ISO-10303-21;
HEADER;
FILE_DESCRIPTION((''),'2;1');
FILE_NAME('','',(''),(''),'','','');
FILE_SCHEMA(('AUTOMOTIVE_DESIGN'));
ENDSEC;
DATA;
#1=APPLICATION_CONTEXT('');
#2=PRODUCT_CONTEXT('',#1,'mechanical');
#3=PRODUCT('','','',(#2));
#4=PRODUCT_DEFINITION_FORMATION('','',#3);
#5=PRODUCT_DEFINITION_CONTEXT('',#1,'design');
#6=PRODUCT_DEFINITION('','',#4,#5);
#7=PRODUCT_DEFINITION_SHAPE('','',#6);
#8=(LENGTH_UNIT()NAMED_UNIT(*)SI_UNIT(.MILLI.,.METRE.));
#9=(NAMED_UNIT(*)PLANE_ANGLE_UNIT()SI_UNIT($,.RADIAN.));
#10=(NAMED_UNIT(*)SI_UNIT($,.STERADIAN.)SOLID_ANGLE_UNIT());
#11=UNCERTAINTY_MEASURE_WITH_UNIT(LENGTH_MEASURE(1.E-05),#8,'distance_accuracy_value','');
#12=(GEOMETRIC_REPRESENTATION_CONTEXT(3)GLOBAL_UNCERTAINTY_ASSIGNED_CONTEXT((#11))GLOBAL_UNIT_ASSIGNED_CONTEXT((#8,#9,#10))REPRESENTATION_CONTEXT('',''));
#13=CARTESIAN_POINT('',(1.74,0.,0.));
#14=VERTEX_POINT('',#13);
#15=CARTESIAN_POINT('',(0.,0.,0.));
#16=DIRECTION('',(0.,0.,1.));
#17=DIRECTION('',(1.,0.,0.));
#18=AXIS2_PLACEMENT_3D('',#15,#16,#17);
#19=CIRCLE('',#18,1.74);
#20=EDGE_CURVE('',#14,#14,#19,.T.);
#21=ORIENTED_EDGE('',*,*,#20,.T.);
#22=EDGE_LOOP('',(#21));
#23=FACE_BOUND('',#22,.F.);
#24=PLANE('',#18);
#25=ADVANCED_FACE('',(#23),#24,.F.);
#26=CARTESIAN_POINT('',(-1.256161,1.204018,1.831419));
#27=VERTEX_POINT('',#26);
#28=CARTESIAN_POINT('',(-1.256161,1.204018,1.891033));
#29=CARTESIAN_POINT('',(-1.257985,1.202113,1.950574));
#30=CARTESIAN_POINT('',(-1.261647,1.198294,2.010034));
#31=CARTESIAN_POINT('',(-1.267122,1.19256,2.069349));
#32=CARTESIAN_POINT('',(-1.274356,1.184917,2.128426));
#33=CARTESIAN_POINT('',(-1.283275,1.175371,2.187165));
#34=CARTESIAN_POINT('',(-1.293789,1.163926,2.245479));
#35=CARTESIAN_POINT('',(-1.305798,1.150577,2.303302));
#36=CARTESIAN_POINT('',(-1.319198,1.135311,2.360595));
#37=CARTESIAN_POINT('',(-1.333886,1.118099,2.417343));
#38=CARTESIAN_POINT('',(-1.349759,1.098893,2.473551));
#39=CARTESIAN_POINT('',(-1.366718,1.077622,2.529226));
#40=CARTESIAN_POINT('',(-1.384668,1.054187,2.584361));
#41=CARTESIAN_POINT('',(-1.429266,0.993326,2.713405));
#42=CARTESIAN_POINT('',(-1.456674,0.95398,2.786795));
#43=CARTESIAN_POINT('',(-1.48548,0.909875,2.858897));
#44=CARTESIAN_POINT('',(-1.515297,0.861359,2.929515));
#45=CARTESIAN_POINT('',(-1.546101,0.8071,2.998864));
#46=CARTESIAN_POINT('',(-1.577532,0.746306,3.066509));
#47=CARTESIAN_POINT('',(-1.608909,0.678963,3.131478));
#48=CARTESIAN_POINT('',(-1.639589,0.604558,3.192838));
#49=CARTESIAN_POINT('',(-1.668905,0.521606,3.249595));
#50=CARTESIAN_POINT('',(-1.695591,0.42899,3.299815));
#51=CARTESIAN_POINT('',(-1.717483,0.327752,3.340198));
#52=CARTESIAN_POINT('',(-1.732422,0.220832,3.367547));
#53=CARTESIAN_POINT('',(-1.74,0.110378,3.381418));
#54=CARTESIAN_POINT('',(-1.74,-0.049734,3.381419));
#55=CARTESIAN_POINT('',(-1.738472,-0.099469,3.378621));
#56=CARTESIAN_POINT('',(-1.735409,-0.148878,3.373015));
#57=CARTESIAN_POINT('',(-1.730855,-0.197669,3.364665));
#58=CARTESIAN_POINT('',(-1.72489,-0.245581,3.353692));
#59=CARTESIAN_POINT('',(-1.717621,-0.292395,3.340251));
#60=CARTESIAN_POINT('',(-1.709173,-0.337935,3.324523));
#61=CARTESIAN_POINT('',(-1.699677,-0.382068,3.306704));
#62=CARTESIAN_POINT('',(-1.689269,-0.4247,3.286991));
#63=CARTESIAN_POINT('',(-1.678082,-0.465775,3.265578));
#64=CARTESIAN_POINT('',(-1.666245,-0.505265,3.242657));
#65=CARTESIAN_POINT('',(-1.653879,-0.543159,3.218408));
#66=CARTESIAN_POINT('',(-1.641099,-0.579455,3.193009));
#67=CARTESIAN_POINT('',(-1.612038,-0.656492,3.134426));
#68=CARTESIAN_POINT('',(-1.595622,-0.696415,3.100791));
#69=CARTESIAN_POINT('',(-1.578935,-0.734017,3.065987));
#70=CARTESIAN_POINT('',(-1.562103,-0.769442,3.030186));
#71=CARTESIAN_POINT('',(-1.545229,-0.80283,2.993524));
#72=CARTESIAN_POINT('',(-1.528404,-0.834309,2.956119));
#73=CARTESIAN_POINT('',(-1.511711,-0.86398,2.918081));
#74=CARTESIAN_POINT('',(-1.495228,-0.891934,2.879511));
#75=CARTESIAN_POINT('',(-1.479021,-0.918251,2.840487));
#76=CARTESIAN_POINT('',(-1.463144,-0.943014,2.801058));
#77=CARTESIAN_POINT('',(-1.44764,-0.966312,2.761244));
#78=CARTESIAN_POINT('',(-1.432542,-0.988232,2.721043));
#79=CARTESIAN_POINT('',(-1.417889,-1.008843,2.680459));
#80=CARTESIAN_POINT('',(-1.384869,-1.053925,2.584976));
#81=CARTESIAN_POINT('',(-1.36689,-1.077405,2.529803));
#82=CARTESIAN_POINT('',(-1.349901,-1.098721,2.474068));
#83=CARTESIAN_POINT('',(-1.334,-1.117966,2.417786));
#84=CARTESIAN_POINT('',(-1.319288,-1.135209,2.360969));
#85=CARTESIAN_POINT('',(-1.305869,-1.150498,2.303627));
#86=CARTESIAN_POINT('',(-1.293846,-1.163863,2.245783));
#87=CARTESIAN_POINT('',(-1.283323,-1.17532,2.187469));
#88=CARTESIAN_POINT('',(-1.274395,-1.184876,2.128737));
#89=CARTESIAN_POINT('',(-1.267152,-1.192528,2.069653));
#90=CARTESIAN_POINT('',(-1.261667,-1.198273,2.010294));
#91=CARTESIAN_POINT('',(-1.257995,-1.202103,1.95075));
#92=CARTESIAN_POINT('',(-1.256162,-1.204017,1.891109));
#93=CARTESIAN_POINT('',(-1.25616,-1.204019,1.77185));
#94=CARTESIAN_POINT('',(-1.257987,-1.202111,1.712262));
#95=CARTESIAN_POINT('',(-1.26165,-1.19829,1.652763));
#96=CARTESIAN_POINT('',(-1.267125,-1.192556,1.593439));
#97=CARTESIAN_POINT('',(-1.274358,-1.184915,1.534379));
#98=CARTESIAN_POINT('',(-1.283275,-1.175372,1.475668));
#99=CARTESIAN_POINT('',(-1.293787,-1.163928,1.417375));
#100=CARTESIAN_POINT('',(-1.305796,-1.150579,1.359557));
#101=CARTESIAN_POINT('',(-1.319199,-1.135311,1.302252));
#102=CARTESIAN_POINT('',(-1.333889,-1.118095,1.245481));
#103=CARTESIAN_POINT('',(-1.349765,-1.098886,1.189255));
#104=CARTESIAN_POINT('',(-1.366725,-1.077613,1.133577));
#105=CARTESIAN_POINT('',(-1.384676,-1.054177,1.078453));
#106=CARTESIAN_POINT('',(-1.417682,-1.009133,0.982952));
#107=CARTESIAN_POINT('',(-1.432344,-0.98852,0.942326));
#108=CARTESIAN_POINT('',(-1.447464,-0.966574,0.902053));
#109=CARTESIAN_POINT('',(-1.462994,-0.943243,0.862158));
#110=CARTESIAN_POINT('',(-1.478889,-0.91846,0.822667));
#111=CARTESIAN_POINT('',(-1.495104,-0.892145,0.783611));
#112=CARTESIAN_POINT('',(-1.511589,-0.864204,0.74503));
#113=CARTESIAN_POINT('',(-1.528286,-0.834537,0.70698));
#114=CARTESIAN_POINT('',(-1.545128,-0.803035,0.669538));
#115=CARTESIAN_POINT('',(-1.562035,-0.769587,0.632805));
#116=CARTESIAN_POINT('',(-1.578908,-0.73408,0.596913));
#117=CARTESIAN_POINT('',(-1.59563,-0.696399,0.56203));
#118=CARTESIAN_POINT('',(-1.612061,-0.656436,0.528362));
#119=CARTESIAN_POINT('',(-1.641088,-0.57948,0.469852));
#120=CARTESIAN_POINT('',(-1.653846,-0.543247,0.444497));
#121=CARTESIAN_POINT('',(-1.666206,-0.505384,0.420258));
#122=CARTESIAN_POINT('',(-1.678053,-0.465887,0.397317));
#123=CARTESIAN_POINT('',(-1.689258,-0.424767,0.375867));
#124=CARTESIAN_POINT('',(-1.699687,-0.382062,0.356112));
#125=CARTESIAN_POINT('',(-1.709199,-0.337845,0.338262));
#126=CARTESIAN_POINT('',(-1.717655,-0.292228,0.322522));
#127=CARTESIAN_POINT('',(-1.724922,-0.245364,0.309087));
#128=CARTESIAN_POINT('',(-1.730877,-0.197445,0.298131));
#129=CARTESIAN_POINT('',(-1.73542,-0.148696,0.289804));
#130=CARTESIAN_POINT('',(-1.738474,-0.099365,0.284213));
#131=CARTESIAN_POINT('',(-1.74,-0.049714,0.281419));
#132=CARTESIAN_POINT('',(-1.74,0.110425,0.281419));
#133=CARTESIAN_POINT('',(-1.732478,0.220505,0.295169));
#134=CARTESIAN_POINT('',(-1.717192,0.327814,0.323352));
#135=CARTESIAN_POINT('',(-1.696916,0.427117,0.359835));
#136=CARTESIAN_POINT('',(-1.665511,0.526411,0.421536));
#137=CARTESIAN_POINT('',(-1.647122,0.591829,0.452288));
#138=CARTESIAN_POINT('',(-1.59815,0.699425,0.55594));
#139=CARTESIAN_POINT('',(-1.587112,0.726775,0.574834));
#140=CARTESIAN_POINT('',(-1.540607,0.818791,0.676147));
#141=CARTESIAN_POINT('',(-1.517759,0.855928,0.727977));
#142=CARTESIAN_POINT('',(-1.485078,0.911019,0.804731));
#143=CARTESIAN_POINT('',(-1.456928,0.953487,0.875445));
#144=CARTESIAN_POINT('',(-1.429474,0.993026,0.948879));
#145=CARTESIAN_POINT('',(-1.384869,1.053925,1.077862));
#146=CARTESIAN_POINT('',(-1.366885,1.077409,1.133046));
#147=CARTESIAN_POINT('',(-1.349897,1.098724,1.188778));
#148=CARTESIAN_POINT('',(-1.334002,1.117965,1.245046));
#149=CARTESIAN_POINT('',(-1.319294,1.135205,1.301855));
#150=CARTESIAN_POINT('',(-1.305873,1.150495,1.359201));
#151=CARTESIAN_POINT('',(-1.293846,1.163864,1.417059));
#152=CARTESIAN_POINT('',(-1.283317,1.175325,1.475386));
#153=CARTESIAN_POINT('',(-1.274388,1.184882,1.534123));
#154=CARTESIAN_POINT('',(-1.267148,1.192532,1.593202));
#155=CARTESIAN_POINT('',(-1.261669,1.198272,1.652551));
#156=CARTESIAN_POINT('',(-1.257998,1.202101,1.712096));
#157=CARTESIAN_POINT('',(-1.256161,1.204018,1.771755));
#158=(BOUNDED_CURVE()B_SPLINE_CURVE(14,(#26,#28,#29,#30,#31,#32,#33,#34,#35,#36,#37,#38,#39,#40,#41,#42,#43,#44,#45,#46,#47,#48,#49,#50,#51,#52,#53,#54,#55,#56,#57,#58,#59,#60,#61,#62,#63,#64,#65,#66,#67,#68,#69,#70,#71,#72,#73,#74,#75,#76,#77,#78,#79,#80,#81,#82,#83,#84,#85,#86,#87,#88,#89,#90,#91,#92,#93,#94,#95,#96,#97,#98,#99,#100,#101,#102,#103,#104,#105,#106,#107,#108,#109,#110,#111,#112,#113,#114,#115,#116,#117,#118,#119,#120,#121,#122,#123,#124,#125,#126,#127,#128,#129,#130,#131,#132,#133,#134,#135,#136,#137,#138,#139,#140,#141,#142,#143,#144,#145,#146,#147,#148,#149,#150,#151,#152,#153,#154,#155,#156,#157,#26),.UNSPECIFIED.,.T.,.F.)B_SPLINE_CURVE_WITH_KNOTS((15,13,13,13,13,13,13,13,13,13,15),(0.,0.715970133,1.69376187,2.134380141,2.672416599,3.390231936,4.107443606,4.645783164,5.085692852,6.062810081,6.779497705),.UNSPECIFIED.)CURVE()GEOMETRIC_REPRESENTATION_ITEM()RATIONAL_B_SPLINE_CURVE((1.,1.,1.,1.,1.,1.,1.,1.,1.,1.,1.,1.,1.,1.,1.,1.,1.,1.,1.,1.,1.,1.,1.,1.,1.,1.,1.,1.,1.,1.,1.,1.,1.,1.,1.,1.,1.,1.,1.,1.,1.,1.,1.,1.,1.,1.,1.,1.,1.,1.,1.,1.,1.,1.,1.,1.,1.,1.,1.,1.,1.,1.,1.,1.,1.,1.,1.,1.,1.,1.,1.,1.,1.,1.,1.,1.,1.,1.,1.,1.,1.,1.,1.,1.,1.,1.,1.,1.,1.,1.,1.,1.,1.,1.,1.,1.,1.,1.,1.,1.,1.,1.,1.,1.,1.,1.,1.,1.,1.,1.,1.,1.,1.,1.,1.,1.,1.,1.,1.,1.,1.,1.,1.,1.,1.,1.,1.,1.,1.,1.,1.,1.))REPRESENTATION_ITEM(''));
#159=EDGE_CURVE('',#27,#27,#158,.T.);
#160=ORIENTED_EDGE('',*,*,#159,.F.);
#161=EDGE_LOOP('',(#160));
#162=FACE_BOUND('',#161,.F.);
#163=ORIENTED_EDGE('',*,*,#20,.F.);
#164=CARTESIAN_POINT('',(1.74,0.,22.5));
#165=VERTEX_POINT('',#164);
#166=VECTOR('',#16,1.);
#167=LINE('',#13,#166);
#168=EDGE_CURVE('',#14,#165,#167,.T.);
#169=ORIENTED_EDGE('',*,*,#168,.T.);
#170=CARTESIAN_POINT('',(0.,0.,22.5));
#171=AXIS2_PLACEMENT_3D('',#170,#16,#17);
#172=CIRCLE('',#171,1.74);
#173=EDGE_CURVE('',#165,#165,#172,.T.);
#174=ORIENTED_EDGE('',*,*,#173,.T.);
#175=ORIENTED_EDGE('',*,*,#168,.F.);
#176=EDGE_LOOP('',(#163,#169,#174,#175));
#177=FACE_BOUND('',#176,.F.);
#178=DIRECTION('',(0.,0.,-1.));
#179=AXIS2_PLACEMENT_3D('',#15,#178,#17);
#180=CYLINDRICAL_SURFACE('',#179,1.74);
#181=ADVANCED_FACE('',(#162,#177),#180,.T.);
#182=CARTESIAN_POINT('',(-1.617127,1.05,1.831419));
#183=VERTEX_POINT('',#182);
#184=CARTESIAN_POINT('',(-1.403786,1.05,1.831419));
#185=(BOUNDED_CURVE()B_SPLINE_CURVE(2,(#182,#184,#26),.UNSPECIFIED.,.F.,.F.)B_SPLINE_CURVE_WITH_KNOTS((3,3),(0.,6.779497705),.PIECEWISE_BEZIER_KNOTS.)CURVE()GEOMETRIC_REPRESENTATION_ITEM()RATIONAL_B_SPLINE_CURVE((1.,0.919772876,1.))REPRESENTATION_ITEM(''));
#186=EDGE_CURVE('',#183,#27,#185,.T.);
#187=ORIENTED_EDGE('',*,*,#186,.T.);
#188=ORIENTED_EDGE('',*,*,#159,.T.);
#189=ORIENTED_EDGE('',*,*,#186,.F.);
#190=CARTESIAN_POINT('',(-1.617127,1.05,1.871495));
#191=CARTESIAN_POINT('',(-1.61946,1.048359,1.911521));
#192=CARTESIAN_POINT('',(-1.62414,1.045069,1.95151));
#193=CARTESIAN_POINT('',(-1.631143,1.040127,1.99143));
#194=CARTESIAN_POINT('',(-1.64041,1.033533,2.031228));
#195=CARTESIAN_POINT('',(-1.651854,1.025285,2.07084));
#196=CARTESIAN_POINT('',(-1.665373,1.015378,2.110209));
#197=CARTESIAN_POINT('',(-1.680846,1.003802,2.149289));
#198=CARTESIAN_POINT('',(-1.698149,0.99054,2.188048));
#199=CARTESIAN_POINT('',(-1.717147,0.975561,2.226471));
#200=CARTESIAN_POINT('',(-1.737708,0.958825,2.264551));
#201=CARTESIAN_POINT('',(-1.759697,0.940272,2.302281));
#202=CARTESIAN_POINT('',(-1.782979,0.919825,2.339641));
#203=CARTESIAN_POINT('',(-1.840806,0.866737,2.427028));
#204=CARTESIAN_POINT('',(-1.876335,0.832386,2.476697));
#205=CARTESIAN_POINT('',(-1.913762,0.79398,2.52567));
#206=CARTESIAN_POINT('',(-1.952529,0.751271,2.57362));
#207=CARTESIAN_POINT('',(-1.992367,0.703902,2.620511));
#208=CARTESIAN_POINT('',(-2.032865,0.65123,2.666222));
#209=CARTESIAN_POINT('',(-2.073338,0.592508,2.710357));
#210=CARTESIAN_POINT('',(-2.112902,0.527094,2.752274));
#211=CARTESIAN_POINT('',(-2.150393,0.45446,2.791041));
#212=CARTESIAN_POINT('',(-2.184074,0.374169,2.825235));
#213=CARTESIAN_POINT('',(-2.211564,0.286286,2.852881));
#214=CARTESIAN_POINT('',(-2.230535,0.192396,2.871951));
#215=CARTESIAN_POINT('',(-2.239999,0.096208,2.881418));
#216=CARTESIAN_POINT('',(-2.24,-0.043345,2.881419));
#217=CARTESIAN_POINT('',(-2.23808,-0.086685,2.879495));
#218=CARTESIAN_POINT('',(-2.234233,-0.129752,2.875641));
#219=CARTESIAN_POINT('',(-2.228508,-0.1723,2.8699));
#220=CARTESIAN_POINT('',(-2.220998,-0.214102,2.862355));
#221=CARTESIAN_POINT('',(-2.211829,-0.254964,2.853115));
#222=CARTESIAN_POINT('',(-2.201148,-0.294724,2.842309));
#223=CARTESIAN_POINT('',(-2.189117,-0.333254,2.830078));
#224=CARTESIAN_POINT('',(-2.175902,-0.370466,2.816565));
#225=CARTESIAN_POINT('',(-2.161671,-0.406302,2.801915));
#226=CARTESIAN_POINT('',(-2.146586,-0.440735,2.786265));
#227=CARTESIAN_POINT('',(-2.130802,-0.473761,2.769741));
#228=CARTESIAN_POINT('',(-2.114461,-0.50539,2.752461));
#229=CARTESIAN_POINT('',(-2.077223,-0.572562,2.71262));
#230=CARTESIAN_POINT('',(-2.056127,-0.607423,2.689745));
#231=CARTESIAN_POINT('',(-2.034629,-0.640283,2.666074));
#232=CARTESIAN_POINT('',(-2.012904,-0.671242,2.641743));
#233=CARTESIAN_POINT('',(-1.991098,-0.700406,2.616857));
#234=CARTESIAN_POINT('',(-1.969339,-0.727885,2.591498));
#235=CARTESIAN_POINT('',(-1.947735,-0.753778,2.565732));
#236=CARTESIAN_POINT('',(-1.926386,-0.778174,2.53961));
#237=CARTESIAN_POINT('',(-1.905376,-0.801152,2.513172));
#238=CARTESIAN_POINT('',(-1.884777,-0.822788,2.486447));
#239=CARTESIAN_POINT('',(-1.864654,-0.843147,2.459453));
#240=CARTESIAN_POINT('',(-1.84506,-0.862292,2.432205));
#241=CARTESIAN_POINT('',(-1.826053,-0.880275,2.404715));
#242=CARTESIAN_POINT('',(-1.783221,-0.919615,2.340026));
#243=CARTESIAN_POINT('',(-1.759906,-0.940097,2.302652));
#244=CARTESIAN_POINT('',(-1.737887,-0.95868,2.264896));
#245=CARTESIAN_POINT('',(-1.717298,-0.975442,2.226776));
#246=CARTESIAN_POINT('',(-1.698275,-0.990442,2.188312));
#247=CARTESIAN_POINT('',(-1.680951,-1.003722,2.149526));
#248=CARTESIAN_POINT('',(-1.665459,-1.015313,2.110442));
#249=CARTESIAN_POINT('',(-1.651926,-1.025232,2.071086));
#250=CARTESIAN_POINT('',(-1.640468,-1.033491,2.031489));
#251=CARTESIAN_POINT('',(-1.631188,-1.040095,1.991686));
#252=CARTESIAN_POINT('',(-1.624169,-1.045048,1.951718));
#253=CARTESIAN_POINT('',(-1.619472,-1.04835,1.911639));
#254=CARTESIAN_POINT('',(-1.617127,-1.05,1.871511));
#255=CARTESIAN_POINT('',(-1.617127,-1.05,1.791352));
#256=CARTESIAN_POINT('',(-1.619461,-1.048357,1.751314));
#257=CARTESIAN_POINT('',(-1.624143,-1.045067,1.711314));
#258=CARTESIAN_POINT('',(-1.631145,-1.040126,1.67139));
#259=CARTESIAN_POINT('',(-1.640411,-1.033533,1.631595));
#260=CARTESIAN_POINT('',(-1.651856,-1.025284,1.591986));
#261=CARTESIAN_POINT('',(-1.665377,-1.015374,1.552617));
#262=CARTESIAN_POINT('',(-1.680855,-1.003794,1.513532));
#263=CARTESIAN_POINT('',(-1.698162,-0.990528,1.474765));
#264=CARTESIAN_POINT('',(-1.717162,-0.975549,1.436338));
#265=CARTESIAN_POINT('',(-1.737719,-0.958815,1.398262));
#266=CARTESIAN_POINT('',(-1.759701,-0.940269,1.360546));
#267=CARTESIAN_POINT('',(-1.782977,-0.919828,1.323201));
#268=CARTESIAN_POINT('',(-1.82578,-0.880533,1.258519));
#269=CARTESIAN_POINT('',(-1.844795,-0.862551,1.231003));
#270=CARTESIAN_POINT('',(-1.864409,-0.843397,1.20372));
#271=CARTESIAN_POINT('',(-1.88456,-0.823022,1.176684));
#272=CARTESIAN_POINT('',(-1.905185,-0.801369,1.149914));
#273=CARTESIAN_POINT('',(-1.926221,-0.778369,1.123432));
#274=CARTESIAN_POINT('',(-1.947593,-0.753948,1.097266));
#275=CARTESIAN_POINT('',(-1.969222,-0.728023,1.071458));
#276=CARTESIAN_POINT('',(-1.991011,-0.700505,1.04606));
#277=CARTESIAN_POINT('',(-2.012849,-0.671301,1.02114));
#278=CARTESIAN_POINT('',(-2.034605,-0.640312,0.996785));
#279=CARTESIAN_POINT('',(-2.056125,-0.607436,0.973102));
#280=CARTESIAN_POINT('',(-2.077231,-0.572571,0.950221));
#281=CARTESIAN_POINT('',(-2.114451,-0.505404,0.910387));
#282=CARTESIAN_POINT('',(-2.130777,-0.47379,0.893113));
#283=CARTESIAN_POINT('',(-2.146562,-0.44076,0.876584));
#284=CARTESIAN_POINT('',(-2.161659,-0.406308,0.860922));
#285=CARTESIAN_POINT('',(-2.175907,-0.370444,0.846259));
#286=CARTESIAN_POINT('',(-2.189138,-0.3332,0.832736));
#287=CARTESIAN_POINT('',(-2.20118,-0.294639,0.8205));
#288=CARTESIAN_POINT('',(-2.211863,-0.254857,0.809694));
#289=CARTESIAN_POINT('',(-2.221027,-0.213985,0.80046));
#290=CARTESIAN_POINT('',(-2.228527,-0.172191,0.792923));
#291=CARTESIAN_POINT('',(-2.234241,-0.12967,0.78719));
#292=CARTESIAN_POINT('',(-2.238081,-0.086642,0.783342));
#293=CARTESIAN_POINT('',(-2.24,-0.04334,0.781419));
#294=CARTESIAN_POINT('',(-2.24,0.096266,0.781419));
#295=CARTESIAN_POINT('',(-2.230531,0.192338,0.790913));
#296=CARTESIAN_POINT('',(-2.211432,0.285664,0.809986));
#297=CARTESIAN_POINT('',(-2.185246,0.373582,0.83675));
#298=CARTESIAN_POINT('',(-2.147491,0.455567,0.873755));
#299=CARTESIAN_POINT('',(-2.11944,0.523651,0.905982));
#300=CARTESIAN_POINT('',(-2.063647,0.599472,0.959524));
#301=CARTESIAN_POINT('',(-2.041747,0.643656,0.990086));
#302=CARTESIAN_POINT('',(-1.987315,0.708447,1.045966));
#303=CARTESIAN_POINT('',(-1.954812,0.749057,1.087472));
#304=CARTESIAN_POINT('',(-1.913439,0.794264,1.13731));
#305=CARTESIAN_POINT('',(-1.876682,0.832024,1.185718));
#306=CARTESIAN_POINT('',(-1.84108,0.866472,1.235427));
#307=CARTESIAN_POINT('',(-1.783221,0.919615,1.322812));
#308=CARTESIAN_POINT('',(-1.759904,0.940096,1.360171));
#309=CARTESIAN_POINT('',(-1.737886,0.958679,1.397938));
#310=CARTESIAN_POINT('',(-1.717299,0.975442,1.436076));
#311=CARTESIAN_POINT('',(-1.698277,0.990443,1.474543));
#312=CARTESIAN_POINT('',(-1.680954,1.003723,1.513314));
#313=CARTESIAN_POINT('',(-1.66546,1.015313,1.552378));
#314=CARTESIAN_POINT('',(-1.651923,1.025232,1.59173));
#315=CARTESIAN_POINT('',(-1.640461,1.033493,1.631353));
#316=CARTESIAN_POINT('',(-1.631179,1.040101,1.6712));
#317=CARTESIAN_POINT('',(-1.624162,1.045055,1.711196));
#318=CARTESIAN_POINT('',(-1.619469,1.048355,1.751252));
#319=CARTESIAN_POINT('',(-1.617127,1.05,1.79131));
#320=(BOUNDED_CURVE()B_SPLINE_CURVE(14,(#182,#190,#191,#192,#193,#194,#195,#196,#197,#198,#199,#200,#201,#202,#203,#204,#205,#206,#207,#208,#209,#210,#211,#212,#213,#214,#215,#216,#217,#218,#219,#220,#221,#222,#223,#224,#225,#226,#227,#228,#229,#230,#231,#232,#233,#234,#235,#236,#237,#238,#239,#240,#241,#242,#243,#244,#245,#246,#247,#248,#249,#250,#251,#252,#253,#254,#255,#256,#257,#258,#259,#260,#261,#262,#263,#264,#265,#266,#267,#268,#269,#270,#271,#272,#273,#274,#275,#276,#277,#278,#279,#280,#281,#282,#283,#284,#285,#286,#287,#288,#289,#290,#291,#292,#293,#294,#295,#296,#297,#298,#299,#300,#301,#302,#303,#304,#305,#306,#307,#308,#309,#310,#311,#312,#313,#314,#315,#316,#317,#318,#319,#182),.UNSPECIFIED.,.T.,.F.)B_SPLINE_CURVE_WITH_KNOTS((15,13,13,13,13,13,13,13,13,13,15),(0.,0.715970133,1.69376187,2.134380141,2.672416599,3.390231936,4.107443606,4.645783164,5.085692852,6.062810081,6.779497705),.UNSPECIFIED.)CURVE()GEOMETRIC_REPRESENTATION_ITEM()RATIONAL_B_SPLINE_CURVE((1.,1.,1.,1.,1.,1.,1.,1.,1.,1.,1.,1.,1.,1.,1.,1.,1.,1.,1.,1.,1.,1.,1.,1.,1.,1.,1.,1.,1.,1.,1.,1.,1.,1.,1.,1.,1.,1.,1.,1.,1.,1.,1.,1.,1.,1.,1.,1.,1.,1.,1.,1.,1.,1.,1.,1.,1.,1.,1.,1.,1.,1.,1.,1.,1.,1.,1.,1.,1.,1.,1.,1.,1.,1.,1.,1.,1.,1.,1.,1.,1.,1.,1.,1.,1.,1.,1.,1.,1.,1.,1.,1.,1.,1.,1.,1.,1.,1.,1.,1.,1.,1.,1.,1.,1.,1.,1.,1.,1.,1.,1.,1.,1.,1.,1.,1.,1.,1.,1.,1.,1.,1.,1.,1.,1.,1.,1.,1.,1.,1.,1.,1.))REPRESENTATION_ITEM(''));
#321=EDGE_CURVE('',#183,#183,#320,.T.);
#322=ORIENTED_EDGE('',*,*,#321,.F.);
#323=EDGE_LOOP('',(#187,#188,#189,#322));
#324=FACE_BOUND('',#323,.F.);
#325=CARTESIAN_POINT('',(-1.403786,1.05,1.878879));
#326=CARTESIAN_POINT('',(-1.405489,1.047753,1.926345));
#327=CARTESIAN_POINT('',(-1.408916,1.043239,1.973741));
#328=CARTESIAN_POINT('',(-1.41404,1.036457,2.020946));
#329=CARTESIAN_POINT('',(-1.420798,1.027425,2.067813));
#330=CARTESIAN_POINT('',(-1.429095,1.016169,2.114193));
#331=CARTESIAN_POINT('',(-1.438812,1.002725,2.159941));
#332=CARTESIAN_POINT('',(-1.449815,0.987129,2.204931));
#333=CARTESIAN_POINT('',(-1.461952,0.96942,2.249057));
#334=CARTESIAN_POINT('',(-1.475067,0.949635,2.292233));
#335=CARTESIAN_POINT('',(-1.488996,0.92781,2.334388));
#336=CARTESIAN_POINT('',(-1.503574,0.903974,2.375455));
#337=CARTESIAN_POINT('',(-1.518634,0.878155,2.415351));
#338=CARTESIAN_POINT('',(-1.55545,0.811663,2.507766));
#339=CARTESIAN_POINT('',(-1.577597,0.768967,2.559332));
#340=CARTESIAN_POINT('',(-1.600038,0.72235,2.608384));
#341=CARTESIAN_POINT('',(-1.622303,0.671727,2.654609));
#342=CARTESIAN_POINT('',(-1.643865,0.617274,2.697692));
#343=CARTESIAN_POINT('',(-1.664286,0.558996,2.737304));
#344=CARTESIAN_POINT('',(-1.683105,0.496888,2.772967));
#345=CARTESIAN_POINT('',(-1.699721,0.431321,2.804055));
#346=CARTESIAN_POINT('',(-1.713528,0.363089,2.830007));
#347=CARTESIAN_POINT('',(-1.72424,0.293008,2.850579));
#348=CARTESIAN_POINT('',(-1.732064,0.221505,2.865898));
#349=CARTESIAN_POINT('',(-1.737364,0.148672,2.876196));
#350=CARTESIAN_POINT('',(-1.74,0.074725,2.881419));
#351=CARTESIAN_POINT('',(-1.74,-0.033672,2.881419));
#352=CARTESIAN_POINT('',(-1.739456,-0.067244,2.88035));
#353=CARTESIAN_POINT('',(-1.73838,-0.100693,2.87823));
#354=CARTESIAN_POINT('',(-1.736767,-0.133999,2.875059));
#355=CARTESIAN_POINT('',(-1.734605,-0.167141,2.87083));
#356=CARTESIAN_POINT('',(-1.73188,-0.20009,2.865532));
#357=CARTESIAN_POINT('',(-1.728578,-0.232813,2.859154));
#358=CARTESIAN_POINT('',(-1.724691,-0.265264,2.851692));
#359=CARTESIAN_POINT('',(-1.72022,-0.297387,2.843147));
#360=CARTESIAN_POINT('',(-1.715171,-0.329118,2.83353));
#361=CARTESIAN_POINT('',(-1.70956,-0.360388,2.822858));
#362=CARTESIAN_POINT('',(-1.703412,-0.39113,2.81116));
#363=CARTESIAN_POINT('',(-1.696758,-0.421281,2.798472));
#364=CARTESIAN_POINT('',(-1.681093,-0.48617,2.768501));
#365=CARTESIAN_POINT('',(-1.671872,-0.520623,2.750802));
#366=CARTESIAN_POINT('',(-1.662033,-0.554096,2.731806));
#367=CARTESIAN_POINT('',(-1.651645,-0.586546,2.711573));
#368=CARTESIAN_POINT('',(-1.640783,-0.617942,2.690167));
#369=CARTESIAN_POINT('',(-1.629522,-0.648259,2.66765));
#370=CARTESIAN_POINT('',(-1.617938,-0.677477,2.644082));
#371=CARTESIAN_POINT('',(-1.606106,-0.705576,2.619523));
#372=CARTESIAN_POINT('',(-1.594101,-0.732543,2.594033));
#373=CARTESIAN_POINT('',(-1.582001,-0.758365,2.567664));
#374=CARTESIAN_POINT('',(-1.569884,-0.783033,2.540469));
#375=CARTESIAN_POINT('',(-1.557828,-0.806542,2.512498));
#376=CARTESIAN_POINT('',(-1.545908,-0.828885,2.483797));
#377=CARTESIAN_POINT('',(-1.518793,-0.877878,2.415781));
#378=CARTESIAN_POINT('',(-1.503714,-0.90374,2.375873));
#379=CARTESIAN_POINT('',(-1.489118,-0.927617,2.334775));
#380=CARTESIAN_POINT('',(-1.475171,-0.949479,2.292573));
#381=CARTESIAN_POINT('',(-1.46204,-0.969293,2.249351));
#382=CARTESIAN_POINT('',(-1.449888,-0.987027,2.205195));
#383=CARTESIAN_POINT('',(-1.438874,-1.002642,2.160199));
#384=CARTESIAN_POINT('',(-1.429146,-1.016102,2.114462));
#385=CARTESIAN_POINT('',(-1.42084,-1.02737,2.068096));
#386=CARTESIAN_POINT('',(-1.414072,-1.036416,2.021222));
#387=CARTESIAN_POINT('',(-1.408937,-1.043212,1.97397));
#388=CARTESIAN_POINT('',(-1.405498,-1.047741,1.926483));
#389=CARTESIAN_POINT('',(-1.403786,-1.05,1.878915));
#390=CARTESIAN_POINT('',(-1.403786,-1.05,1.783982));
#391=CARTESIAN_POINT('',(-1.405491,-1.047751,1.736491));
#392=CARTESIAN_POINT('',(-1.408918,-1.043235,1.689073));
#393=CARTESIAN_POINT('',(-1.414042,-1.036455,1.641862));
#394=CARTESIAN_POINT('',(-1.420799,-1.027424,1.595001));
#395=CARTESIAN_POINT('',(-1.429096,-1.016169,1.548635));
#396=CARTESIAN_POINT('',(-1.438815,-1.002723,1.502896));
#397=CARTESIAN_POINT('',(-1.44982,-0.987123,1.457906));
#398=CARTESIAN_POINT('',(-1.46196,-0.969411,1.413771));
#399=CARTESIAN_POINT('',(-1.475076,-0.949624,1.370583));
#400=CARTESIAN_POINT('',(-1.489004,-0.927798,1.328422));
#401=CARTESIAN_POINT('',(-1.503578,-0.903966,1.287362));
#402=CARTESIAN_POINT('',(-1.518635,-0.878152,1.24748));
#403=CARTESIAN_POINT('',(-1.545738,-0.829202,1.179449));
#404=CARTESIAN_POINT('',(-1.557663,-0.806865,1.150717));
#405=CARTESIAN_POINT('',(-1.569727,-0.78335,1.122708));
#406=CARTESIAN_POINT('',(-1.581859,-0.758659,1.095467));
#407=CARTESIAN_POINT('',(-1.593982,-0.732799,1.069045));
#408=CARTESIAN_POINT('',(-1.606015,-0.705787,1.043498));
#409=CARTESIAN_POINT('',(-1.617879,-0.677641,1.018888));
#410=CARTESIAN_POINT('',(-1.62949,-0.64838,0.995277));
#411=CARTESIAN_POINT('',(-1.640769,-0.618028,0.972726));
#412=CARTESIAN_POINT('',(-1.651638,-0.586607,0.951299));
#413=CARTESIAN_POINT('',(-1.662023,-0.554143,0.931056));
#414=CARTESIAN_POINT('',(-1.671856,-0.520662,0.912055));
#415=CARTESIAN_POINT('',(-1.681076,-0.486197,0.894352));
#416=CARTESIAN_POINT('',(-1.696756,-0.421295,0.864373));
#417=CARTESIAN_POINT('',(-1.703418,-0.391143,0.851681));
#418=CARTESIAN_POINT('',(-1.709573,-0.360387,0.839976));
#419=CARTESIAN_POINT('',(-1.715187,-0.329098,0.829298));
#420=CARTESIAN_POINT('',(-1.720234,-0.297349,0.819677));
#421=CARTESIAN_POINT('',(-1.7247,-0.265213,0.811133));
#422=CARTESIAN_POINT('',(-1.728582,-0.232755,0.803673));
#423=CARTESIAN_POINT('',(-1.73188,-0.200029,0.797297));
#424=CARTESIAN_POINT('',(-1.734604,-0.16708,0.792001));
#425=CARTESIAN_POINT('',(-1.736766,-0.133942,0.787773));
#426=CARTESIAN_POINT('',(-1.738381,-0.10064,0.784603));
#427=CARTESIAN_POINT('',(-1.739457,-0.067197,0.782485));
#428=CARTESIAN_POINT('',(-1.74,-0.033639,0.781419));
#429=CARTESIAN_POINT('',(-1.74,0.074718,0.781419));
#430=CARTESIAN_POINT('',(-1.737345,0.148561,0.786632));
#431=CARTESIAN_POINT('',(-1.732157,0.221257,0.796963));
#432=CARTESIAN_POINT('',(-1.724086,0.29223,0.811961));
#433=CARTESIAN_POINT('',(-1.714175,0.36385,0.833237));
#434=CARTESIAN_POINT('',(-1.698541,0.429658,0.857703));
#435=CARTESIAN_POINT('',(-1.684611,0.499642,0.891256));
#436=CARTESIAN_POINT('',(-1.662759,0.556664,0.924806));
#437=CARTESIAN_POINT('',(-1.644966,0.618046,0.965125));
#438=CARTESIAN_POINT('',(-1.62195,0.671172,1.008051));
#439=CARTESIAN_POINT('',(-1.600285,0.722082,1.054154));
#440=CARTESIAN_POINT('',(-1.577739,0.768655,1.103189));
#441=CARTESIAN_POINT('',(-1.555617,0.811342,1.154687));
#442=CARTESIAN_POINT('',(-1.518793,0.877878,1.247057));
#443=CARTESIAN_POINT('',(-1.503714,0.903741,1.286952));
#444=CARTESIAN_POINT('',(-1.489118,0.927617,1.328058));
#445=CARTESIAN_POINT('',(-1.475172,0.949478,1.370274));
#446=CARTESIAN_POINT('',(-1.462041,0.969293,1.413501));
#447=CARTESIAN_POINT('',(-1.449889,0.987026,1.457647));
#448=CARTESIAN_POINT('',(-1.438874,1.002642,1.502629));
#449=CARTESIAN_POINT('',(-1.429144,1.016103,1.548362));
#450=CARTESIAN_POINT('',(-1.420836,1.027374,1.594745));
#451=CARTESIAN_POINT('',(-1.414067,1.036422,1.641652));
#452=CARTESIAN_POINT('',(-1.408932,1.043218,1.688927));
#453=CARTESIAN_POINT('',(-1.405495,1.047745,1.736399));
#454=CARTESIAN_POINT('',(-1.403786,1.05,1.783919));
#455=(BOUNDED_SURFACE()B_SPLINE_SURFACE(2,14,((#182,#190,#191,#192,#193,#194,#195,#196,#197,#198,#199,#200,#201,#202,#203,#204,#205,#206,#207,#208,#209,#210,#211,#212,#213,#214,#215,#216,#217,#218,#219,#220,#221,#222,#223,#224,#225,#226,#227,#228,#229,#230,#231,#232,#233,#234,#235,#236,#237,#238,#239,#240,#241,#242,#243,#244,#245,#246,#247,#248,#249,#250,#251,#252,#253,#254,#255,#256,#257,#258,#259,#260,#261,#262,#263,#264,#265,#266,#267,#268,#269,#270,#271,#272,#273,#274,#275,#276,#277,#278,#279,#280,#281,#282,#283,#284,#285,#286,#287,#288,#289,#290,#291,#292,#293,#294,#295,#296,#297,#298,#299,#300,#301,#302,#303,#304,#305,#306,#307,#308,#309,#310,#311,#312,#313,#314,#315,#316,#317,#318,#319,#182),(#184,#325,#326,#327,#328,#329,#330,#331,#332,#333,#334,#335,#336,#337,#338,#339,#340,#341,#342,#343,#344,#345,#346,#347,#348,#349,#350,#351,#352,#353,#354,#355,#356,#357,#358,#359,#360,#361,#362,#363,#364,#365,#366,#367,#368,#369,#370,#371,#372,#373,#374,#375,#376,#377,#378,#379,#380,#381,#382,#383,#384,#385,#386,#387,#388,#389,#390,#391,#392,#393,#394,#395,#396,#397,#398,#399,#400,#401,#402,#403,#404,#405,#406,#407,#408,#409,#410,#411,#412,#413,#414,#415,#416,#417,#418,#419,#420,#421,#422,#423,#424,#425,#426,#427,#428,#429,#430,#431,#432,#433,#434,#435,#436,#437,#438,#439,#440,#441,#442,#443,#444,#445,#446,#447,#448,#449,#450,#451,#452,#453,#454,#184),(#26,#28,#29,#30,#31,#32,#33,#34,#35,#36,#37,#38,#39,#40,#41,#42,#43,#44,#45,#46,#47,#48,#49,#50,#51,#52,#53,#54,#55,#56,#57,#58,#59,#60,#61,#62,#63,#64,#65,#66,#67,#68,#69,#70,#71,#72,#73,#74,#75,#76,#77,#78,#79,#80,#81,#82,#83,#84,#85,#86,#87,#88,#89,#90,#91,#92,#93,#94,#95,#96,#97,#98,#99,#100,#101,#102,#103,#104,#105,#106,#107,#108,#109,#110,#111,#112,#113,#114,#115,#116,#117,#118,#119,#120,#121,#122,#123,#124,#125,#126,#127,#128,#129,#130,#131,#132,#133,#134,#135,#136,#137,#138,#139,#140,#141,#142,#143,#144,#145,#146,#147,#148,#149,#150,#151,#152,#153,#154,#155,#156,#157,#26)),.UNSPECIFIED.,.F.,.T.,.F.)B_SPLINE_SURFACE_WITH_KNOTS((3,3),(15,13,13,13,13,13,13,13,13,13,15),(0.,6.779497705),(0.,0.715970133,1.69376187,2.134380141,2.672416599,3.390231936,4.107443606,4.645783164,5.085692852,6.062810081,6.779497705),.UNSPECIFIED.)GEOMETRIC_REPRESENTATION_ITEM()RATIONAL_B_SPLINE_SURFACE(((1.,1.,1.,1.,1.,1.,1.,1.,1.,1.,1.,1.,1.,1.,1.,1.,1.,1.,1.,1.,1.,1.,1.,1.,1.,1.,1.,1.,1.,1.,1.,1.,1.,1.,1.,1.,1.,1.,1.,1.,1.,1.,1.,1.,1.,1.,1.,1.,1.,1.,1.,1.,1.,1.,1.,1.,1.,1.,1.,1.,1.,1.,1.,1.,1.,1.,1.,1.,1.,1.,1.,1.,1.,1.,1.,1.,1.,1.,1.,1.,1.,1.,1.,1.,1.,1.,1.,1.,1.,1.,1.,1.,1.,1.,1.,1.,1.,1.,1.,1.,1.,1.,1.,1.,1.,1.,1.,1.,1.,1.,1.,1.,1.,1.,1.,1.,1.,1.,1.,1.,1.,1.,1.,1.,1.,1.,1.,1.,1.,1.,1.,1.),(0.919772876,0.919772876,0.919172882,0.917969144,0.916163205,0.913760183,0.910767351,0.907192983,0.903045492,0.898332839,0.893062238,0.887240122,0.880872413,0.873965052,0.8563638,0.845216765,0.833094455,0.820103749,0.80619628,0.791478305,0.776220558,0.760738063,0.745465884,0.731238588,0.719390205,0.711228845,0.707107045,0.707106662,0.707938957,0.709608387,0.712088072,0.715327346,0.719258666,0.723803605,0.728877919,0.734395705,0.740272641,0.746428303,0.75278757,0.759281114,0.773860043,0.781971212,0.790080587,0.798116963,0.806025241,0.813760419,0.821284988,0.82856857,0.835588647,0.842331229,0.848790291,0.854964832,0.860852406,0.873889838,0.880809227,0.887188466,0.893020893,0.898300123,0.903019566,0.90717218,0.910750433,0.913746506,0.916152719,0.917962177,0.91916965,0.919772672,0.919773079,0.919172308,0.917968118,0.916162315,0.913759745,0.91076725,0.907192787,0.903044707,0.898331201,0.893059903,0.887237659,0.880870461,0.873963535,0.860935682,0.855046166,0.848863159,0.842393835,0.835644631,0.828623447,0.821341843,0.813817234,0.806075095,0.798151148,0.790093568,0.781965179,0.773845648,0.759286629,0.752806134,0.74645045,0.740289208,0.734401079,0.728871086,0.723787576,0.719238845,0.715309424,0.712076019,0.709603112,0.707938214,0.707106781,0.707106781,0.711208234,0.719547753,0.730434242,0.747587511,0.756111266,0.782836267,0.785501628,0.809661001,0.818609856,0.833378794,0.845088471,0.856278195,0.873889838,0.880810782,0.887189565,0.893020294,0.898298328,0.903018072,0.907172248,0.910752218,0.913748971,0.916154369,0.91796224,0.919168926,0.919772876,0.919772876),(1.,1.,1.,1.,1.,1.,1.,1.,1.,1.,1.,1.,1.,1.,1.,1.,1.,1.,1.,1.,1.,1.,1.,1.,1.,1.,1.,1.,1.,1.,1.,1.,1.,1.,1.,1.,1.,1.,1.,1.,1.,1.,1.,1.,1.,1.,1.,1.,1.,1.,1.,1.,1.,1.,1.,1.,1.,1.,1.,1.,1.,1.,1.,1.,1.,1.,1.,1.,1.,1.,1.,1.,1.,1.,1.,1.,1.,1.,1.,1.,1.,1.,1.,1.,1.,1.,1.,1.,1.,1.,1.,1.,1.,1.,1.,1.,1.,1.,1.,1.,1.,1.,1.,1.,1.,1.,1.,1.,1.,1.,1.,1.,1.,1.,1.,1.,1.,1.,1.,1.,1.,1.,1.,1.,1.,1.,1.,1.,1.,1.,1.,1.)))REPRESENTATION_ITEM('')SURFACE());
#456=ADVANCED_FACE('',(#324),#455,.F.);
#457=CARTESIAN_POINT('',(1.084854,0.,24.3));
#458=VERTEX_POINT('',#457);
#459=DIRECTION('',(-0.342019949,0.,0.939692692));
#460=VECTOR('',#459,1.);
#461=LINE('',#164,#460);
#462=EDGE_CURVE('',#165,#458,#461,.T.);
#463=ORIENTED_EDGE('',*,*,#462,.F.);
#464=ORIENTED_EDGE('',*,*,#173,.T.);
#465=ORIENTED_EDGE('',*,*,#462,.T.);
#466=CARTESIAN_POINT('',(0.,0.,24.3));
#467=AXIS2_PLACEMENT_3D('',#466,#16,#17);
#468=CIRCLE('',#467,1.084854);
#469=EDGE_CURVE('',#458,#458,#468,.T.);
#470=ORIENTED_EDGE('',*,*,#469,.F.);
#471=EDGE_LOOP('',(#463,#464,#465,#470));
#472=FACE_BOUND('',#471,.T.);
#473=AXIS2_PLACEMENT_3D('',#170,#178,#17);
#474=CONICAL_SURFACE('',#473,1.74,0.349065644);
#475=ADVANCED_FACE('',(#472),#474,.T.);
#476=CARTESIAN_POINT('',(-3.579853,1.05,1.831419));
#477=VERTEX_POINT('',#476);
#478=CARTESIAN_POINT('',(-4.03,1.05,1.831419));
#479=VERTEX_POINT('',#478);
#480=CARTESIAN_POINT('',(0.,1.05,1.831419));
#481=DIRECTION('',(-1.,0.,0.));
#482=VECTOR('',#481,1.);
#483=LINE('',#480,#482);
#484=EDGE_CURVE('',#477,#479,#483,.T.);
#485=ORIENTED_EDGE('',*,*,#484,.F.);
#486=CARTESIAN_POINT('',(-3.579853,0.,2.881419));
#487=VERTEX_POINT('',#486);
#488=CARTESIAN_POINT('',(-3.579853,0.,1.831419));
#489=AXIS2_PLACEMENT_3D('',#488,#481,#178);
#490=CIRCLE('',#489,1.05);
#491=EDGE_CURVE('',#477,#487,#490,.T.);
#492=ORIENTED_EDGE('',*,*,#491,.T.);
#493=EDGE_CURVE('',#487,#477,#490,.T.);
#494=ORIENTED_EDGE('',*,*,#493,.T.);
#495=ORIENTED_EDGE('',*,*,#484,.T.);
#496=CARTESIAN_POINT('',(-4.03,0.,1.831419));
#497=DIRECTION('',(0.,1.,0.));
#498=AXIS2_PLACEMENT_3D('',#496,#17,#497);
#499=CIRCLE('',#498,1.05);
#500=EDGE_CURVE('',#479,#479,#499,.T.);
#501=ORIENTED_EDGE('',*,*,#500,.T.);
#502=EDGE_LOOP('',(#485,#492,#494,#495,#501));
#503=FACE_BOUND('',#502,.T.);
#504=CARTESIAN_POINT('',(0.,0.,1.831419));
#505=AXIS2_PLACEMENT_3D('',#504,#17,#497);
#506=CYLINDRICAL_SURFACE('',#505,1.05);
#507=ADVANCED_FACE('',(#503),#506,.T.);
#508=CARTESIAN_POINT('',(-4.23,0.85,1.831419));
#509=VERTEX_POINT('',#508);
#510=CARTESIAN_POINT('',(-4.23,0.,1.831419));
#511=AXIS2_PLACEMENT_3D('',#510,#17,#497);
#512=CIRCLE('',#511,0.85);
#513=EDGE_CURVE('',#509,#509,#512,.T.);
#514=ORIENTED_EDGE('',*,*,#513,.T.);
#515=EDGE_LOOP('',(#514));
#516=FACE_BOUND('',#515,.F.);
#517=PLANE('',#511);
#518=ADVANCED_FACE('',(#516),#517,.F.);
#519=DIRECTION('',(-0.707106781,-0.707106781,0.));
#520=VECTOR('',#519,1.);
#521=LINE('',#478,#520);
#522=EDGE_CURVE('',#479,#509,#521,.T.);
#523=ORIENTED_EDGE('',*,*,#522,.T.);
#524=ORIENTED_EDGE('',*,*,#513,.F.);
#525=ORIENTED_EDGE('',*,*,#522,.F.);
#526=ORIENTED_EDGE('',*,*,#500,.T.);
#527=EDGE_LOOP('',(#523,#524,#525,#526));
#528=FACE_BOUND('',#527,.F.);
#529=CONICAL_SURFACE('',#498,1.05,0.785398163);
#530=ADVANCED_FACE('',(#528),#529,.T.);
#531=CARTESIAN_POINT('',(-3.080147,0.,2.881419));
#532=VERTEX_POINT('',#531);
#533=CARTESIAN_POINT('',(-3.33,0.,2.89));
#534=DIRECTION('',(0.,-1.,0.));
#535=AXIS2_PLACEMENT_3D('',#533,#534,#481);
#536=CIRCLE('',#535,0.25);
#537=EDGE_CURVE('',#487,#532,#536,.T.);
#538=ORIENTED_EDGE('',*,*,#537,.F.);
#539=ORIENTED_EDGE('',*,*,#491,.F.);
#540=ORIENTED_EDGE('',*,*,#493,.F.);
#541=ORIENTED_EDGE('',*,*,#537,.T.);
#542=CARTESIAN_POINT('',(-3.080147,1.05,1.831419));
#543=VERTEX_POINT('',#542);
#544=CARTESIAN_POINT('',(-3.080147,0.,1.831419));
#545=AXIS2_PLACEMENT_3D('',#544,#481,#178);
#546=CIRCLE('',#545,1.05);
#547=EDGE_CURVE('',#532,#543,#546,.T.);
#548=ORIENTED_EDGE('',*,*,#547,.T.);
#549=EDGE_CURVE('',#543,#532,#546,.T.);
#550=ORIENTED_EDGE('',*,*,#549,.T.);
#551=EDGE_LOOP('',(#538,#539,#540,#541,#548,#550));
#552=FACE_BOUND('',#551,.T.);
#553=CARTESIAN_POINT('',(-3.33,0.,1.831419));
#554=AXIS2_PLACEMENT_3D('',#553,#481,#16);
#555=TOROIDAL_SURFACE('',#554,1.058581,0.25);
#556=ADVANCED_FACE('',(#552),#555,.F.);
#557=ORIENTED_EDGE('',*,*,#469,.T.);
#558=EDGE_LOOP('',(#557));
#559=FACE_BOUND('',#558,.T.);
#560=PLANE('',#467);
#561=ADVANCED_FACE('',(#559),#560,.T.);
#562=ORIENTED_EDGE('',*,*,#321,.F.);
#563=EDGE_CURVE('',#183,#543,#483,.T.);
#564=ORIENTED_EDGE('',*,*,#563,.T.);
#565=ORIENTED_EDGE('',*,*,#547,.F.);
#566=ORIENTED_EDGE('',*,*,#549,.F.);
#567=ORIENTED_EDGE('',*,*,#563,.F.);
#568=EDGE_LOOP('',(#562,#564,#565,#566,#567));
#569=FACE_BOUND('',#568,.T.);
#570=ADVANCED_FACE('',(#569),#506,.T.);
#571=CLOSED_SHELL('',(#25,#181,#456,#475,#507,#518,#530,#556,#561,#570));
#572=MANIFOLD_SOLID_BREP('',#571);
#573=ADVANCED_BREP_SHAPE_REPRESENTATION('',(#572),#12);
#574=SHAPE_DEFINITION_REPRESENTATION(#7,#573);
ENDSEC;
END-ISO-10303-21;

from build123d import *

# Parameters (mm, degrees)
F0_R     = 1.74
F1_DEPTH = 24.3
F2_SIZE2 = 0.655146
F2_SIZE  = 1.8
F3_R     = 1.05
F4_DEPTH = 4.23
F7_SIZE  = 0.2
F8_R     = 0.5


with BuildPart() as f1:
    # F0 (on Top) → F1 (new body)
    with BuildSketch(Plane.XY):
        Circle(F0_R)
    extrude(amount=F1_DEPTH)

    # F2
    f2_edges = [f1.edges().sort_by_distance(p)[0] for p in [
        (-1.74, 0, 24.3),
    ]]
    chamfer(f2_edges, length=F2_SIZE, length2=F2_SIZE2)

    # F3 (on Right) → F4 (join)
    with BuildSketch(Plane.YZ):
        with Locations((0, 1.831419)):
            Circle(F3_R)
    extrude(amount=-F4_DEPTH)

    # F5 (on Front) → F6 (revolve, cut)
    with BuildSketch(Plane.XZ):
        with BuildLine():
            Line((-3.08, 4.59), (-3.58, 4.59))
            Line((-3.58, 4.59), (-3.58, 2.89))
            ThreePointArc((-3.58, 2.89), (-3.33, 2.64), (-3.08, 2.89))
            Line((-3.08, 2.89), (-3.08, 4.59))
        make_face()
    revolve(axis=Axis((-4.23, 0, 1.831419), (1, 0, 0)), mode=Mode.SUBTRACT)

    # F7
    f7_edges = [f1.edges().sort_by_distance(p)[0] for p in [
        (-4.23, -1.05, 1.831419),
    ]]
    chamfer(f7_edges, length=F7_SIZE)

    # F8
    f8_edges = [f1.edges().sort_by_distance(p)[0] for p in [
        (-1.38748, -1.05, 1.831419),
    ]]
    fillet(f8_edges, radius=F8_R)


solid = f1.part
